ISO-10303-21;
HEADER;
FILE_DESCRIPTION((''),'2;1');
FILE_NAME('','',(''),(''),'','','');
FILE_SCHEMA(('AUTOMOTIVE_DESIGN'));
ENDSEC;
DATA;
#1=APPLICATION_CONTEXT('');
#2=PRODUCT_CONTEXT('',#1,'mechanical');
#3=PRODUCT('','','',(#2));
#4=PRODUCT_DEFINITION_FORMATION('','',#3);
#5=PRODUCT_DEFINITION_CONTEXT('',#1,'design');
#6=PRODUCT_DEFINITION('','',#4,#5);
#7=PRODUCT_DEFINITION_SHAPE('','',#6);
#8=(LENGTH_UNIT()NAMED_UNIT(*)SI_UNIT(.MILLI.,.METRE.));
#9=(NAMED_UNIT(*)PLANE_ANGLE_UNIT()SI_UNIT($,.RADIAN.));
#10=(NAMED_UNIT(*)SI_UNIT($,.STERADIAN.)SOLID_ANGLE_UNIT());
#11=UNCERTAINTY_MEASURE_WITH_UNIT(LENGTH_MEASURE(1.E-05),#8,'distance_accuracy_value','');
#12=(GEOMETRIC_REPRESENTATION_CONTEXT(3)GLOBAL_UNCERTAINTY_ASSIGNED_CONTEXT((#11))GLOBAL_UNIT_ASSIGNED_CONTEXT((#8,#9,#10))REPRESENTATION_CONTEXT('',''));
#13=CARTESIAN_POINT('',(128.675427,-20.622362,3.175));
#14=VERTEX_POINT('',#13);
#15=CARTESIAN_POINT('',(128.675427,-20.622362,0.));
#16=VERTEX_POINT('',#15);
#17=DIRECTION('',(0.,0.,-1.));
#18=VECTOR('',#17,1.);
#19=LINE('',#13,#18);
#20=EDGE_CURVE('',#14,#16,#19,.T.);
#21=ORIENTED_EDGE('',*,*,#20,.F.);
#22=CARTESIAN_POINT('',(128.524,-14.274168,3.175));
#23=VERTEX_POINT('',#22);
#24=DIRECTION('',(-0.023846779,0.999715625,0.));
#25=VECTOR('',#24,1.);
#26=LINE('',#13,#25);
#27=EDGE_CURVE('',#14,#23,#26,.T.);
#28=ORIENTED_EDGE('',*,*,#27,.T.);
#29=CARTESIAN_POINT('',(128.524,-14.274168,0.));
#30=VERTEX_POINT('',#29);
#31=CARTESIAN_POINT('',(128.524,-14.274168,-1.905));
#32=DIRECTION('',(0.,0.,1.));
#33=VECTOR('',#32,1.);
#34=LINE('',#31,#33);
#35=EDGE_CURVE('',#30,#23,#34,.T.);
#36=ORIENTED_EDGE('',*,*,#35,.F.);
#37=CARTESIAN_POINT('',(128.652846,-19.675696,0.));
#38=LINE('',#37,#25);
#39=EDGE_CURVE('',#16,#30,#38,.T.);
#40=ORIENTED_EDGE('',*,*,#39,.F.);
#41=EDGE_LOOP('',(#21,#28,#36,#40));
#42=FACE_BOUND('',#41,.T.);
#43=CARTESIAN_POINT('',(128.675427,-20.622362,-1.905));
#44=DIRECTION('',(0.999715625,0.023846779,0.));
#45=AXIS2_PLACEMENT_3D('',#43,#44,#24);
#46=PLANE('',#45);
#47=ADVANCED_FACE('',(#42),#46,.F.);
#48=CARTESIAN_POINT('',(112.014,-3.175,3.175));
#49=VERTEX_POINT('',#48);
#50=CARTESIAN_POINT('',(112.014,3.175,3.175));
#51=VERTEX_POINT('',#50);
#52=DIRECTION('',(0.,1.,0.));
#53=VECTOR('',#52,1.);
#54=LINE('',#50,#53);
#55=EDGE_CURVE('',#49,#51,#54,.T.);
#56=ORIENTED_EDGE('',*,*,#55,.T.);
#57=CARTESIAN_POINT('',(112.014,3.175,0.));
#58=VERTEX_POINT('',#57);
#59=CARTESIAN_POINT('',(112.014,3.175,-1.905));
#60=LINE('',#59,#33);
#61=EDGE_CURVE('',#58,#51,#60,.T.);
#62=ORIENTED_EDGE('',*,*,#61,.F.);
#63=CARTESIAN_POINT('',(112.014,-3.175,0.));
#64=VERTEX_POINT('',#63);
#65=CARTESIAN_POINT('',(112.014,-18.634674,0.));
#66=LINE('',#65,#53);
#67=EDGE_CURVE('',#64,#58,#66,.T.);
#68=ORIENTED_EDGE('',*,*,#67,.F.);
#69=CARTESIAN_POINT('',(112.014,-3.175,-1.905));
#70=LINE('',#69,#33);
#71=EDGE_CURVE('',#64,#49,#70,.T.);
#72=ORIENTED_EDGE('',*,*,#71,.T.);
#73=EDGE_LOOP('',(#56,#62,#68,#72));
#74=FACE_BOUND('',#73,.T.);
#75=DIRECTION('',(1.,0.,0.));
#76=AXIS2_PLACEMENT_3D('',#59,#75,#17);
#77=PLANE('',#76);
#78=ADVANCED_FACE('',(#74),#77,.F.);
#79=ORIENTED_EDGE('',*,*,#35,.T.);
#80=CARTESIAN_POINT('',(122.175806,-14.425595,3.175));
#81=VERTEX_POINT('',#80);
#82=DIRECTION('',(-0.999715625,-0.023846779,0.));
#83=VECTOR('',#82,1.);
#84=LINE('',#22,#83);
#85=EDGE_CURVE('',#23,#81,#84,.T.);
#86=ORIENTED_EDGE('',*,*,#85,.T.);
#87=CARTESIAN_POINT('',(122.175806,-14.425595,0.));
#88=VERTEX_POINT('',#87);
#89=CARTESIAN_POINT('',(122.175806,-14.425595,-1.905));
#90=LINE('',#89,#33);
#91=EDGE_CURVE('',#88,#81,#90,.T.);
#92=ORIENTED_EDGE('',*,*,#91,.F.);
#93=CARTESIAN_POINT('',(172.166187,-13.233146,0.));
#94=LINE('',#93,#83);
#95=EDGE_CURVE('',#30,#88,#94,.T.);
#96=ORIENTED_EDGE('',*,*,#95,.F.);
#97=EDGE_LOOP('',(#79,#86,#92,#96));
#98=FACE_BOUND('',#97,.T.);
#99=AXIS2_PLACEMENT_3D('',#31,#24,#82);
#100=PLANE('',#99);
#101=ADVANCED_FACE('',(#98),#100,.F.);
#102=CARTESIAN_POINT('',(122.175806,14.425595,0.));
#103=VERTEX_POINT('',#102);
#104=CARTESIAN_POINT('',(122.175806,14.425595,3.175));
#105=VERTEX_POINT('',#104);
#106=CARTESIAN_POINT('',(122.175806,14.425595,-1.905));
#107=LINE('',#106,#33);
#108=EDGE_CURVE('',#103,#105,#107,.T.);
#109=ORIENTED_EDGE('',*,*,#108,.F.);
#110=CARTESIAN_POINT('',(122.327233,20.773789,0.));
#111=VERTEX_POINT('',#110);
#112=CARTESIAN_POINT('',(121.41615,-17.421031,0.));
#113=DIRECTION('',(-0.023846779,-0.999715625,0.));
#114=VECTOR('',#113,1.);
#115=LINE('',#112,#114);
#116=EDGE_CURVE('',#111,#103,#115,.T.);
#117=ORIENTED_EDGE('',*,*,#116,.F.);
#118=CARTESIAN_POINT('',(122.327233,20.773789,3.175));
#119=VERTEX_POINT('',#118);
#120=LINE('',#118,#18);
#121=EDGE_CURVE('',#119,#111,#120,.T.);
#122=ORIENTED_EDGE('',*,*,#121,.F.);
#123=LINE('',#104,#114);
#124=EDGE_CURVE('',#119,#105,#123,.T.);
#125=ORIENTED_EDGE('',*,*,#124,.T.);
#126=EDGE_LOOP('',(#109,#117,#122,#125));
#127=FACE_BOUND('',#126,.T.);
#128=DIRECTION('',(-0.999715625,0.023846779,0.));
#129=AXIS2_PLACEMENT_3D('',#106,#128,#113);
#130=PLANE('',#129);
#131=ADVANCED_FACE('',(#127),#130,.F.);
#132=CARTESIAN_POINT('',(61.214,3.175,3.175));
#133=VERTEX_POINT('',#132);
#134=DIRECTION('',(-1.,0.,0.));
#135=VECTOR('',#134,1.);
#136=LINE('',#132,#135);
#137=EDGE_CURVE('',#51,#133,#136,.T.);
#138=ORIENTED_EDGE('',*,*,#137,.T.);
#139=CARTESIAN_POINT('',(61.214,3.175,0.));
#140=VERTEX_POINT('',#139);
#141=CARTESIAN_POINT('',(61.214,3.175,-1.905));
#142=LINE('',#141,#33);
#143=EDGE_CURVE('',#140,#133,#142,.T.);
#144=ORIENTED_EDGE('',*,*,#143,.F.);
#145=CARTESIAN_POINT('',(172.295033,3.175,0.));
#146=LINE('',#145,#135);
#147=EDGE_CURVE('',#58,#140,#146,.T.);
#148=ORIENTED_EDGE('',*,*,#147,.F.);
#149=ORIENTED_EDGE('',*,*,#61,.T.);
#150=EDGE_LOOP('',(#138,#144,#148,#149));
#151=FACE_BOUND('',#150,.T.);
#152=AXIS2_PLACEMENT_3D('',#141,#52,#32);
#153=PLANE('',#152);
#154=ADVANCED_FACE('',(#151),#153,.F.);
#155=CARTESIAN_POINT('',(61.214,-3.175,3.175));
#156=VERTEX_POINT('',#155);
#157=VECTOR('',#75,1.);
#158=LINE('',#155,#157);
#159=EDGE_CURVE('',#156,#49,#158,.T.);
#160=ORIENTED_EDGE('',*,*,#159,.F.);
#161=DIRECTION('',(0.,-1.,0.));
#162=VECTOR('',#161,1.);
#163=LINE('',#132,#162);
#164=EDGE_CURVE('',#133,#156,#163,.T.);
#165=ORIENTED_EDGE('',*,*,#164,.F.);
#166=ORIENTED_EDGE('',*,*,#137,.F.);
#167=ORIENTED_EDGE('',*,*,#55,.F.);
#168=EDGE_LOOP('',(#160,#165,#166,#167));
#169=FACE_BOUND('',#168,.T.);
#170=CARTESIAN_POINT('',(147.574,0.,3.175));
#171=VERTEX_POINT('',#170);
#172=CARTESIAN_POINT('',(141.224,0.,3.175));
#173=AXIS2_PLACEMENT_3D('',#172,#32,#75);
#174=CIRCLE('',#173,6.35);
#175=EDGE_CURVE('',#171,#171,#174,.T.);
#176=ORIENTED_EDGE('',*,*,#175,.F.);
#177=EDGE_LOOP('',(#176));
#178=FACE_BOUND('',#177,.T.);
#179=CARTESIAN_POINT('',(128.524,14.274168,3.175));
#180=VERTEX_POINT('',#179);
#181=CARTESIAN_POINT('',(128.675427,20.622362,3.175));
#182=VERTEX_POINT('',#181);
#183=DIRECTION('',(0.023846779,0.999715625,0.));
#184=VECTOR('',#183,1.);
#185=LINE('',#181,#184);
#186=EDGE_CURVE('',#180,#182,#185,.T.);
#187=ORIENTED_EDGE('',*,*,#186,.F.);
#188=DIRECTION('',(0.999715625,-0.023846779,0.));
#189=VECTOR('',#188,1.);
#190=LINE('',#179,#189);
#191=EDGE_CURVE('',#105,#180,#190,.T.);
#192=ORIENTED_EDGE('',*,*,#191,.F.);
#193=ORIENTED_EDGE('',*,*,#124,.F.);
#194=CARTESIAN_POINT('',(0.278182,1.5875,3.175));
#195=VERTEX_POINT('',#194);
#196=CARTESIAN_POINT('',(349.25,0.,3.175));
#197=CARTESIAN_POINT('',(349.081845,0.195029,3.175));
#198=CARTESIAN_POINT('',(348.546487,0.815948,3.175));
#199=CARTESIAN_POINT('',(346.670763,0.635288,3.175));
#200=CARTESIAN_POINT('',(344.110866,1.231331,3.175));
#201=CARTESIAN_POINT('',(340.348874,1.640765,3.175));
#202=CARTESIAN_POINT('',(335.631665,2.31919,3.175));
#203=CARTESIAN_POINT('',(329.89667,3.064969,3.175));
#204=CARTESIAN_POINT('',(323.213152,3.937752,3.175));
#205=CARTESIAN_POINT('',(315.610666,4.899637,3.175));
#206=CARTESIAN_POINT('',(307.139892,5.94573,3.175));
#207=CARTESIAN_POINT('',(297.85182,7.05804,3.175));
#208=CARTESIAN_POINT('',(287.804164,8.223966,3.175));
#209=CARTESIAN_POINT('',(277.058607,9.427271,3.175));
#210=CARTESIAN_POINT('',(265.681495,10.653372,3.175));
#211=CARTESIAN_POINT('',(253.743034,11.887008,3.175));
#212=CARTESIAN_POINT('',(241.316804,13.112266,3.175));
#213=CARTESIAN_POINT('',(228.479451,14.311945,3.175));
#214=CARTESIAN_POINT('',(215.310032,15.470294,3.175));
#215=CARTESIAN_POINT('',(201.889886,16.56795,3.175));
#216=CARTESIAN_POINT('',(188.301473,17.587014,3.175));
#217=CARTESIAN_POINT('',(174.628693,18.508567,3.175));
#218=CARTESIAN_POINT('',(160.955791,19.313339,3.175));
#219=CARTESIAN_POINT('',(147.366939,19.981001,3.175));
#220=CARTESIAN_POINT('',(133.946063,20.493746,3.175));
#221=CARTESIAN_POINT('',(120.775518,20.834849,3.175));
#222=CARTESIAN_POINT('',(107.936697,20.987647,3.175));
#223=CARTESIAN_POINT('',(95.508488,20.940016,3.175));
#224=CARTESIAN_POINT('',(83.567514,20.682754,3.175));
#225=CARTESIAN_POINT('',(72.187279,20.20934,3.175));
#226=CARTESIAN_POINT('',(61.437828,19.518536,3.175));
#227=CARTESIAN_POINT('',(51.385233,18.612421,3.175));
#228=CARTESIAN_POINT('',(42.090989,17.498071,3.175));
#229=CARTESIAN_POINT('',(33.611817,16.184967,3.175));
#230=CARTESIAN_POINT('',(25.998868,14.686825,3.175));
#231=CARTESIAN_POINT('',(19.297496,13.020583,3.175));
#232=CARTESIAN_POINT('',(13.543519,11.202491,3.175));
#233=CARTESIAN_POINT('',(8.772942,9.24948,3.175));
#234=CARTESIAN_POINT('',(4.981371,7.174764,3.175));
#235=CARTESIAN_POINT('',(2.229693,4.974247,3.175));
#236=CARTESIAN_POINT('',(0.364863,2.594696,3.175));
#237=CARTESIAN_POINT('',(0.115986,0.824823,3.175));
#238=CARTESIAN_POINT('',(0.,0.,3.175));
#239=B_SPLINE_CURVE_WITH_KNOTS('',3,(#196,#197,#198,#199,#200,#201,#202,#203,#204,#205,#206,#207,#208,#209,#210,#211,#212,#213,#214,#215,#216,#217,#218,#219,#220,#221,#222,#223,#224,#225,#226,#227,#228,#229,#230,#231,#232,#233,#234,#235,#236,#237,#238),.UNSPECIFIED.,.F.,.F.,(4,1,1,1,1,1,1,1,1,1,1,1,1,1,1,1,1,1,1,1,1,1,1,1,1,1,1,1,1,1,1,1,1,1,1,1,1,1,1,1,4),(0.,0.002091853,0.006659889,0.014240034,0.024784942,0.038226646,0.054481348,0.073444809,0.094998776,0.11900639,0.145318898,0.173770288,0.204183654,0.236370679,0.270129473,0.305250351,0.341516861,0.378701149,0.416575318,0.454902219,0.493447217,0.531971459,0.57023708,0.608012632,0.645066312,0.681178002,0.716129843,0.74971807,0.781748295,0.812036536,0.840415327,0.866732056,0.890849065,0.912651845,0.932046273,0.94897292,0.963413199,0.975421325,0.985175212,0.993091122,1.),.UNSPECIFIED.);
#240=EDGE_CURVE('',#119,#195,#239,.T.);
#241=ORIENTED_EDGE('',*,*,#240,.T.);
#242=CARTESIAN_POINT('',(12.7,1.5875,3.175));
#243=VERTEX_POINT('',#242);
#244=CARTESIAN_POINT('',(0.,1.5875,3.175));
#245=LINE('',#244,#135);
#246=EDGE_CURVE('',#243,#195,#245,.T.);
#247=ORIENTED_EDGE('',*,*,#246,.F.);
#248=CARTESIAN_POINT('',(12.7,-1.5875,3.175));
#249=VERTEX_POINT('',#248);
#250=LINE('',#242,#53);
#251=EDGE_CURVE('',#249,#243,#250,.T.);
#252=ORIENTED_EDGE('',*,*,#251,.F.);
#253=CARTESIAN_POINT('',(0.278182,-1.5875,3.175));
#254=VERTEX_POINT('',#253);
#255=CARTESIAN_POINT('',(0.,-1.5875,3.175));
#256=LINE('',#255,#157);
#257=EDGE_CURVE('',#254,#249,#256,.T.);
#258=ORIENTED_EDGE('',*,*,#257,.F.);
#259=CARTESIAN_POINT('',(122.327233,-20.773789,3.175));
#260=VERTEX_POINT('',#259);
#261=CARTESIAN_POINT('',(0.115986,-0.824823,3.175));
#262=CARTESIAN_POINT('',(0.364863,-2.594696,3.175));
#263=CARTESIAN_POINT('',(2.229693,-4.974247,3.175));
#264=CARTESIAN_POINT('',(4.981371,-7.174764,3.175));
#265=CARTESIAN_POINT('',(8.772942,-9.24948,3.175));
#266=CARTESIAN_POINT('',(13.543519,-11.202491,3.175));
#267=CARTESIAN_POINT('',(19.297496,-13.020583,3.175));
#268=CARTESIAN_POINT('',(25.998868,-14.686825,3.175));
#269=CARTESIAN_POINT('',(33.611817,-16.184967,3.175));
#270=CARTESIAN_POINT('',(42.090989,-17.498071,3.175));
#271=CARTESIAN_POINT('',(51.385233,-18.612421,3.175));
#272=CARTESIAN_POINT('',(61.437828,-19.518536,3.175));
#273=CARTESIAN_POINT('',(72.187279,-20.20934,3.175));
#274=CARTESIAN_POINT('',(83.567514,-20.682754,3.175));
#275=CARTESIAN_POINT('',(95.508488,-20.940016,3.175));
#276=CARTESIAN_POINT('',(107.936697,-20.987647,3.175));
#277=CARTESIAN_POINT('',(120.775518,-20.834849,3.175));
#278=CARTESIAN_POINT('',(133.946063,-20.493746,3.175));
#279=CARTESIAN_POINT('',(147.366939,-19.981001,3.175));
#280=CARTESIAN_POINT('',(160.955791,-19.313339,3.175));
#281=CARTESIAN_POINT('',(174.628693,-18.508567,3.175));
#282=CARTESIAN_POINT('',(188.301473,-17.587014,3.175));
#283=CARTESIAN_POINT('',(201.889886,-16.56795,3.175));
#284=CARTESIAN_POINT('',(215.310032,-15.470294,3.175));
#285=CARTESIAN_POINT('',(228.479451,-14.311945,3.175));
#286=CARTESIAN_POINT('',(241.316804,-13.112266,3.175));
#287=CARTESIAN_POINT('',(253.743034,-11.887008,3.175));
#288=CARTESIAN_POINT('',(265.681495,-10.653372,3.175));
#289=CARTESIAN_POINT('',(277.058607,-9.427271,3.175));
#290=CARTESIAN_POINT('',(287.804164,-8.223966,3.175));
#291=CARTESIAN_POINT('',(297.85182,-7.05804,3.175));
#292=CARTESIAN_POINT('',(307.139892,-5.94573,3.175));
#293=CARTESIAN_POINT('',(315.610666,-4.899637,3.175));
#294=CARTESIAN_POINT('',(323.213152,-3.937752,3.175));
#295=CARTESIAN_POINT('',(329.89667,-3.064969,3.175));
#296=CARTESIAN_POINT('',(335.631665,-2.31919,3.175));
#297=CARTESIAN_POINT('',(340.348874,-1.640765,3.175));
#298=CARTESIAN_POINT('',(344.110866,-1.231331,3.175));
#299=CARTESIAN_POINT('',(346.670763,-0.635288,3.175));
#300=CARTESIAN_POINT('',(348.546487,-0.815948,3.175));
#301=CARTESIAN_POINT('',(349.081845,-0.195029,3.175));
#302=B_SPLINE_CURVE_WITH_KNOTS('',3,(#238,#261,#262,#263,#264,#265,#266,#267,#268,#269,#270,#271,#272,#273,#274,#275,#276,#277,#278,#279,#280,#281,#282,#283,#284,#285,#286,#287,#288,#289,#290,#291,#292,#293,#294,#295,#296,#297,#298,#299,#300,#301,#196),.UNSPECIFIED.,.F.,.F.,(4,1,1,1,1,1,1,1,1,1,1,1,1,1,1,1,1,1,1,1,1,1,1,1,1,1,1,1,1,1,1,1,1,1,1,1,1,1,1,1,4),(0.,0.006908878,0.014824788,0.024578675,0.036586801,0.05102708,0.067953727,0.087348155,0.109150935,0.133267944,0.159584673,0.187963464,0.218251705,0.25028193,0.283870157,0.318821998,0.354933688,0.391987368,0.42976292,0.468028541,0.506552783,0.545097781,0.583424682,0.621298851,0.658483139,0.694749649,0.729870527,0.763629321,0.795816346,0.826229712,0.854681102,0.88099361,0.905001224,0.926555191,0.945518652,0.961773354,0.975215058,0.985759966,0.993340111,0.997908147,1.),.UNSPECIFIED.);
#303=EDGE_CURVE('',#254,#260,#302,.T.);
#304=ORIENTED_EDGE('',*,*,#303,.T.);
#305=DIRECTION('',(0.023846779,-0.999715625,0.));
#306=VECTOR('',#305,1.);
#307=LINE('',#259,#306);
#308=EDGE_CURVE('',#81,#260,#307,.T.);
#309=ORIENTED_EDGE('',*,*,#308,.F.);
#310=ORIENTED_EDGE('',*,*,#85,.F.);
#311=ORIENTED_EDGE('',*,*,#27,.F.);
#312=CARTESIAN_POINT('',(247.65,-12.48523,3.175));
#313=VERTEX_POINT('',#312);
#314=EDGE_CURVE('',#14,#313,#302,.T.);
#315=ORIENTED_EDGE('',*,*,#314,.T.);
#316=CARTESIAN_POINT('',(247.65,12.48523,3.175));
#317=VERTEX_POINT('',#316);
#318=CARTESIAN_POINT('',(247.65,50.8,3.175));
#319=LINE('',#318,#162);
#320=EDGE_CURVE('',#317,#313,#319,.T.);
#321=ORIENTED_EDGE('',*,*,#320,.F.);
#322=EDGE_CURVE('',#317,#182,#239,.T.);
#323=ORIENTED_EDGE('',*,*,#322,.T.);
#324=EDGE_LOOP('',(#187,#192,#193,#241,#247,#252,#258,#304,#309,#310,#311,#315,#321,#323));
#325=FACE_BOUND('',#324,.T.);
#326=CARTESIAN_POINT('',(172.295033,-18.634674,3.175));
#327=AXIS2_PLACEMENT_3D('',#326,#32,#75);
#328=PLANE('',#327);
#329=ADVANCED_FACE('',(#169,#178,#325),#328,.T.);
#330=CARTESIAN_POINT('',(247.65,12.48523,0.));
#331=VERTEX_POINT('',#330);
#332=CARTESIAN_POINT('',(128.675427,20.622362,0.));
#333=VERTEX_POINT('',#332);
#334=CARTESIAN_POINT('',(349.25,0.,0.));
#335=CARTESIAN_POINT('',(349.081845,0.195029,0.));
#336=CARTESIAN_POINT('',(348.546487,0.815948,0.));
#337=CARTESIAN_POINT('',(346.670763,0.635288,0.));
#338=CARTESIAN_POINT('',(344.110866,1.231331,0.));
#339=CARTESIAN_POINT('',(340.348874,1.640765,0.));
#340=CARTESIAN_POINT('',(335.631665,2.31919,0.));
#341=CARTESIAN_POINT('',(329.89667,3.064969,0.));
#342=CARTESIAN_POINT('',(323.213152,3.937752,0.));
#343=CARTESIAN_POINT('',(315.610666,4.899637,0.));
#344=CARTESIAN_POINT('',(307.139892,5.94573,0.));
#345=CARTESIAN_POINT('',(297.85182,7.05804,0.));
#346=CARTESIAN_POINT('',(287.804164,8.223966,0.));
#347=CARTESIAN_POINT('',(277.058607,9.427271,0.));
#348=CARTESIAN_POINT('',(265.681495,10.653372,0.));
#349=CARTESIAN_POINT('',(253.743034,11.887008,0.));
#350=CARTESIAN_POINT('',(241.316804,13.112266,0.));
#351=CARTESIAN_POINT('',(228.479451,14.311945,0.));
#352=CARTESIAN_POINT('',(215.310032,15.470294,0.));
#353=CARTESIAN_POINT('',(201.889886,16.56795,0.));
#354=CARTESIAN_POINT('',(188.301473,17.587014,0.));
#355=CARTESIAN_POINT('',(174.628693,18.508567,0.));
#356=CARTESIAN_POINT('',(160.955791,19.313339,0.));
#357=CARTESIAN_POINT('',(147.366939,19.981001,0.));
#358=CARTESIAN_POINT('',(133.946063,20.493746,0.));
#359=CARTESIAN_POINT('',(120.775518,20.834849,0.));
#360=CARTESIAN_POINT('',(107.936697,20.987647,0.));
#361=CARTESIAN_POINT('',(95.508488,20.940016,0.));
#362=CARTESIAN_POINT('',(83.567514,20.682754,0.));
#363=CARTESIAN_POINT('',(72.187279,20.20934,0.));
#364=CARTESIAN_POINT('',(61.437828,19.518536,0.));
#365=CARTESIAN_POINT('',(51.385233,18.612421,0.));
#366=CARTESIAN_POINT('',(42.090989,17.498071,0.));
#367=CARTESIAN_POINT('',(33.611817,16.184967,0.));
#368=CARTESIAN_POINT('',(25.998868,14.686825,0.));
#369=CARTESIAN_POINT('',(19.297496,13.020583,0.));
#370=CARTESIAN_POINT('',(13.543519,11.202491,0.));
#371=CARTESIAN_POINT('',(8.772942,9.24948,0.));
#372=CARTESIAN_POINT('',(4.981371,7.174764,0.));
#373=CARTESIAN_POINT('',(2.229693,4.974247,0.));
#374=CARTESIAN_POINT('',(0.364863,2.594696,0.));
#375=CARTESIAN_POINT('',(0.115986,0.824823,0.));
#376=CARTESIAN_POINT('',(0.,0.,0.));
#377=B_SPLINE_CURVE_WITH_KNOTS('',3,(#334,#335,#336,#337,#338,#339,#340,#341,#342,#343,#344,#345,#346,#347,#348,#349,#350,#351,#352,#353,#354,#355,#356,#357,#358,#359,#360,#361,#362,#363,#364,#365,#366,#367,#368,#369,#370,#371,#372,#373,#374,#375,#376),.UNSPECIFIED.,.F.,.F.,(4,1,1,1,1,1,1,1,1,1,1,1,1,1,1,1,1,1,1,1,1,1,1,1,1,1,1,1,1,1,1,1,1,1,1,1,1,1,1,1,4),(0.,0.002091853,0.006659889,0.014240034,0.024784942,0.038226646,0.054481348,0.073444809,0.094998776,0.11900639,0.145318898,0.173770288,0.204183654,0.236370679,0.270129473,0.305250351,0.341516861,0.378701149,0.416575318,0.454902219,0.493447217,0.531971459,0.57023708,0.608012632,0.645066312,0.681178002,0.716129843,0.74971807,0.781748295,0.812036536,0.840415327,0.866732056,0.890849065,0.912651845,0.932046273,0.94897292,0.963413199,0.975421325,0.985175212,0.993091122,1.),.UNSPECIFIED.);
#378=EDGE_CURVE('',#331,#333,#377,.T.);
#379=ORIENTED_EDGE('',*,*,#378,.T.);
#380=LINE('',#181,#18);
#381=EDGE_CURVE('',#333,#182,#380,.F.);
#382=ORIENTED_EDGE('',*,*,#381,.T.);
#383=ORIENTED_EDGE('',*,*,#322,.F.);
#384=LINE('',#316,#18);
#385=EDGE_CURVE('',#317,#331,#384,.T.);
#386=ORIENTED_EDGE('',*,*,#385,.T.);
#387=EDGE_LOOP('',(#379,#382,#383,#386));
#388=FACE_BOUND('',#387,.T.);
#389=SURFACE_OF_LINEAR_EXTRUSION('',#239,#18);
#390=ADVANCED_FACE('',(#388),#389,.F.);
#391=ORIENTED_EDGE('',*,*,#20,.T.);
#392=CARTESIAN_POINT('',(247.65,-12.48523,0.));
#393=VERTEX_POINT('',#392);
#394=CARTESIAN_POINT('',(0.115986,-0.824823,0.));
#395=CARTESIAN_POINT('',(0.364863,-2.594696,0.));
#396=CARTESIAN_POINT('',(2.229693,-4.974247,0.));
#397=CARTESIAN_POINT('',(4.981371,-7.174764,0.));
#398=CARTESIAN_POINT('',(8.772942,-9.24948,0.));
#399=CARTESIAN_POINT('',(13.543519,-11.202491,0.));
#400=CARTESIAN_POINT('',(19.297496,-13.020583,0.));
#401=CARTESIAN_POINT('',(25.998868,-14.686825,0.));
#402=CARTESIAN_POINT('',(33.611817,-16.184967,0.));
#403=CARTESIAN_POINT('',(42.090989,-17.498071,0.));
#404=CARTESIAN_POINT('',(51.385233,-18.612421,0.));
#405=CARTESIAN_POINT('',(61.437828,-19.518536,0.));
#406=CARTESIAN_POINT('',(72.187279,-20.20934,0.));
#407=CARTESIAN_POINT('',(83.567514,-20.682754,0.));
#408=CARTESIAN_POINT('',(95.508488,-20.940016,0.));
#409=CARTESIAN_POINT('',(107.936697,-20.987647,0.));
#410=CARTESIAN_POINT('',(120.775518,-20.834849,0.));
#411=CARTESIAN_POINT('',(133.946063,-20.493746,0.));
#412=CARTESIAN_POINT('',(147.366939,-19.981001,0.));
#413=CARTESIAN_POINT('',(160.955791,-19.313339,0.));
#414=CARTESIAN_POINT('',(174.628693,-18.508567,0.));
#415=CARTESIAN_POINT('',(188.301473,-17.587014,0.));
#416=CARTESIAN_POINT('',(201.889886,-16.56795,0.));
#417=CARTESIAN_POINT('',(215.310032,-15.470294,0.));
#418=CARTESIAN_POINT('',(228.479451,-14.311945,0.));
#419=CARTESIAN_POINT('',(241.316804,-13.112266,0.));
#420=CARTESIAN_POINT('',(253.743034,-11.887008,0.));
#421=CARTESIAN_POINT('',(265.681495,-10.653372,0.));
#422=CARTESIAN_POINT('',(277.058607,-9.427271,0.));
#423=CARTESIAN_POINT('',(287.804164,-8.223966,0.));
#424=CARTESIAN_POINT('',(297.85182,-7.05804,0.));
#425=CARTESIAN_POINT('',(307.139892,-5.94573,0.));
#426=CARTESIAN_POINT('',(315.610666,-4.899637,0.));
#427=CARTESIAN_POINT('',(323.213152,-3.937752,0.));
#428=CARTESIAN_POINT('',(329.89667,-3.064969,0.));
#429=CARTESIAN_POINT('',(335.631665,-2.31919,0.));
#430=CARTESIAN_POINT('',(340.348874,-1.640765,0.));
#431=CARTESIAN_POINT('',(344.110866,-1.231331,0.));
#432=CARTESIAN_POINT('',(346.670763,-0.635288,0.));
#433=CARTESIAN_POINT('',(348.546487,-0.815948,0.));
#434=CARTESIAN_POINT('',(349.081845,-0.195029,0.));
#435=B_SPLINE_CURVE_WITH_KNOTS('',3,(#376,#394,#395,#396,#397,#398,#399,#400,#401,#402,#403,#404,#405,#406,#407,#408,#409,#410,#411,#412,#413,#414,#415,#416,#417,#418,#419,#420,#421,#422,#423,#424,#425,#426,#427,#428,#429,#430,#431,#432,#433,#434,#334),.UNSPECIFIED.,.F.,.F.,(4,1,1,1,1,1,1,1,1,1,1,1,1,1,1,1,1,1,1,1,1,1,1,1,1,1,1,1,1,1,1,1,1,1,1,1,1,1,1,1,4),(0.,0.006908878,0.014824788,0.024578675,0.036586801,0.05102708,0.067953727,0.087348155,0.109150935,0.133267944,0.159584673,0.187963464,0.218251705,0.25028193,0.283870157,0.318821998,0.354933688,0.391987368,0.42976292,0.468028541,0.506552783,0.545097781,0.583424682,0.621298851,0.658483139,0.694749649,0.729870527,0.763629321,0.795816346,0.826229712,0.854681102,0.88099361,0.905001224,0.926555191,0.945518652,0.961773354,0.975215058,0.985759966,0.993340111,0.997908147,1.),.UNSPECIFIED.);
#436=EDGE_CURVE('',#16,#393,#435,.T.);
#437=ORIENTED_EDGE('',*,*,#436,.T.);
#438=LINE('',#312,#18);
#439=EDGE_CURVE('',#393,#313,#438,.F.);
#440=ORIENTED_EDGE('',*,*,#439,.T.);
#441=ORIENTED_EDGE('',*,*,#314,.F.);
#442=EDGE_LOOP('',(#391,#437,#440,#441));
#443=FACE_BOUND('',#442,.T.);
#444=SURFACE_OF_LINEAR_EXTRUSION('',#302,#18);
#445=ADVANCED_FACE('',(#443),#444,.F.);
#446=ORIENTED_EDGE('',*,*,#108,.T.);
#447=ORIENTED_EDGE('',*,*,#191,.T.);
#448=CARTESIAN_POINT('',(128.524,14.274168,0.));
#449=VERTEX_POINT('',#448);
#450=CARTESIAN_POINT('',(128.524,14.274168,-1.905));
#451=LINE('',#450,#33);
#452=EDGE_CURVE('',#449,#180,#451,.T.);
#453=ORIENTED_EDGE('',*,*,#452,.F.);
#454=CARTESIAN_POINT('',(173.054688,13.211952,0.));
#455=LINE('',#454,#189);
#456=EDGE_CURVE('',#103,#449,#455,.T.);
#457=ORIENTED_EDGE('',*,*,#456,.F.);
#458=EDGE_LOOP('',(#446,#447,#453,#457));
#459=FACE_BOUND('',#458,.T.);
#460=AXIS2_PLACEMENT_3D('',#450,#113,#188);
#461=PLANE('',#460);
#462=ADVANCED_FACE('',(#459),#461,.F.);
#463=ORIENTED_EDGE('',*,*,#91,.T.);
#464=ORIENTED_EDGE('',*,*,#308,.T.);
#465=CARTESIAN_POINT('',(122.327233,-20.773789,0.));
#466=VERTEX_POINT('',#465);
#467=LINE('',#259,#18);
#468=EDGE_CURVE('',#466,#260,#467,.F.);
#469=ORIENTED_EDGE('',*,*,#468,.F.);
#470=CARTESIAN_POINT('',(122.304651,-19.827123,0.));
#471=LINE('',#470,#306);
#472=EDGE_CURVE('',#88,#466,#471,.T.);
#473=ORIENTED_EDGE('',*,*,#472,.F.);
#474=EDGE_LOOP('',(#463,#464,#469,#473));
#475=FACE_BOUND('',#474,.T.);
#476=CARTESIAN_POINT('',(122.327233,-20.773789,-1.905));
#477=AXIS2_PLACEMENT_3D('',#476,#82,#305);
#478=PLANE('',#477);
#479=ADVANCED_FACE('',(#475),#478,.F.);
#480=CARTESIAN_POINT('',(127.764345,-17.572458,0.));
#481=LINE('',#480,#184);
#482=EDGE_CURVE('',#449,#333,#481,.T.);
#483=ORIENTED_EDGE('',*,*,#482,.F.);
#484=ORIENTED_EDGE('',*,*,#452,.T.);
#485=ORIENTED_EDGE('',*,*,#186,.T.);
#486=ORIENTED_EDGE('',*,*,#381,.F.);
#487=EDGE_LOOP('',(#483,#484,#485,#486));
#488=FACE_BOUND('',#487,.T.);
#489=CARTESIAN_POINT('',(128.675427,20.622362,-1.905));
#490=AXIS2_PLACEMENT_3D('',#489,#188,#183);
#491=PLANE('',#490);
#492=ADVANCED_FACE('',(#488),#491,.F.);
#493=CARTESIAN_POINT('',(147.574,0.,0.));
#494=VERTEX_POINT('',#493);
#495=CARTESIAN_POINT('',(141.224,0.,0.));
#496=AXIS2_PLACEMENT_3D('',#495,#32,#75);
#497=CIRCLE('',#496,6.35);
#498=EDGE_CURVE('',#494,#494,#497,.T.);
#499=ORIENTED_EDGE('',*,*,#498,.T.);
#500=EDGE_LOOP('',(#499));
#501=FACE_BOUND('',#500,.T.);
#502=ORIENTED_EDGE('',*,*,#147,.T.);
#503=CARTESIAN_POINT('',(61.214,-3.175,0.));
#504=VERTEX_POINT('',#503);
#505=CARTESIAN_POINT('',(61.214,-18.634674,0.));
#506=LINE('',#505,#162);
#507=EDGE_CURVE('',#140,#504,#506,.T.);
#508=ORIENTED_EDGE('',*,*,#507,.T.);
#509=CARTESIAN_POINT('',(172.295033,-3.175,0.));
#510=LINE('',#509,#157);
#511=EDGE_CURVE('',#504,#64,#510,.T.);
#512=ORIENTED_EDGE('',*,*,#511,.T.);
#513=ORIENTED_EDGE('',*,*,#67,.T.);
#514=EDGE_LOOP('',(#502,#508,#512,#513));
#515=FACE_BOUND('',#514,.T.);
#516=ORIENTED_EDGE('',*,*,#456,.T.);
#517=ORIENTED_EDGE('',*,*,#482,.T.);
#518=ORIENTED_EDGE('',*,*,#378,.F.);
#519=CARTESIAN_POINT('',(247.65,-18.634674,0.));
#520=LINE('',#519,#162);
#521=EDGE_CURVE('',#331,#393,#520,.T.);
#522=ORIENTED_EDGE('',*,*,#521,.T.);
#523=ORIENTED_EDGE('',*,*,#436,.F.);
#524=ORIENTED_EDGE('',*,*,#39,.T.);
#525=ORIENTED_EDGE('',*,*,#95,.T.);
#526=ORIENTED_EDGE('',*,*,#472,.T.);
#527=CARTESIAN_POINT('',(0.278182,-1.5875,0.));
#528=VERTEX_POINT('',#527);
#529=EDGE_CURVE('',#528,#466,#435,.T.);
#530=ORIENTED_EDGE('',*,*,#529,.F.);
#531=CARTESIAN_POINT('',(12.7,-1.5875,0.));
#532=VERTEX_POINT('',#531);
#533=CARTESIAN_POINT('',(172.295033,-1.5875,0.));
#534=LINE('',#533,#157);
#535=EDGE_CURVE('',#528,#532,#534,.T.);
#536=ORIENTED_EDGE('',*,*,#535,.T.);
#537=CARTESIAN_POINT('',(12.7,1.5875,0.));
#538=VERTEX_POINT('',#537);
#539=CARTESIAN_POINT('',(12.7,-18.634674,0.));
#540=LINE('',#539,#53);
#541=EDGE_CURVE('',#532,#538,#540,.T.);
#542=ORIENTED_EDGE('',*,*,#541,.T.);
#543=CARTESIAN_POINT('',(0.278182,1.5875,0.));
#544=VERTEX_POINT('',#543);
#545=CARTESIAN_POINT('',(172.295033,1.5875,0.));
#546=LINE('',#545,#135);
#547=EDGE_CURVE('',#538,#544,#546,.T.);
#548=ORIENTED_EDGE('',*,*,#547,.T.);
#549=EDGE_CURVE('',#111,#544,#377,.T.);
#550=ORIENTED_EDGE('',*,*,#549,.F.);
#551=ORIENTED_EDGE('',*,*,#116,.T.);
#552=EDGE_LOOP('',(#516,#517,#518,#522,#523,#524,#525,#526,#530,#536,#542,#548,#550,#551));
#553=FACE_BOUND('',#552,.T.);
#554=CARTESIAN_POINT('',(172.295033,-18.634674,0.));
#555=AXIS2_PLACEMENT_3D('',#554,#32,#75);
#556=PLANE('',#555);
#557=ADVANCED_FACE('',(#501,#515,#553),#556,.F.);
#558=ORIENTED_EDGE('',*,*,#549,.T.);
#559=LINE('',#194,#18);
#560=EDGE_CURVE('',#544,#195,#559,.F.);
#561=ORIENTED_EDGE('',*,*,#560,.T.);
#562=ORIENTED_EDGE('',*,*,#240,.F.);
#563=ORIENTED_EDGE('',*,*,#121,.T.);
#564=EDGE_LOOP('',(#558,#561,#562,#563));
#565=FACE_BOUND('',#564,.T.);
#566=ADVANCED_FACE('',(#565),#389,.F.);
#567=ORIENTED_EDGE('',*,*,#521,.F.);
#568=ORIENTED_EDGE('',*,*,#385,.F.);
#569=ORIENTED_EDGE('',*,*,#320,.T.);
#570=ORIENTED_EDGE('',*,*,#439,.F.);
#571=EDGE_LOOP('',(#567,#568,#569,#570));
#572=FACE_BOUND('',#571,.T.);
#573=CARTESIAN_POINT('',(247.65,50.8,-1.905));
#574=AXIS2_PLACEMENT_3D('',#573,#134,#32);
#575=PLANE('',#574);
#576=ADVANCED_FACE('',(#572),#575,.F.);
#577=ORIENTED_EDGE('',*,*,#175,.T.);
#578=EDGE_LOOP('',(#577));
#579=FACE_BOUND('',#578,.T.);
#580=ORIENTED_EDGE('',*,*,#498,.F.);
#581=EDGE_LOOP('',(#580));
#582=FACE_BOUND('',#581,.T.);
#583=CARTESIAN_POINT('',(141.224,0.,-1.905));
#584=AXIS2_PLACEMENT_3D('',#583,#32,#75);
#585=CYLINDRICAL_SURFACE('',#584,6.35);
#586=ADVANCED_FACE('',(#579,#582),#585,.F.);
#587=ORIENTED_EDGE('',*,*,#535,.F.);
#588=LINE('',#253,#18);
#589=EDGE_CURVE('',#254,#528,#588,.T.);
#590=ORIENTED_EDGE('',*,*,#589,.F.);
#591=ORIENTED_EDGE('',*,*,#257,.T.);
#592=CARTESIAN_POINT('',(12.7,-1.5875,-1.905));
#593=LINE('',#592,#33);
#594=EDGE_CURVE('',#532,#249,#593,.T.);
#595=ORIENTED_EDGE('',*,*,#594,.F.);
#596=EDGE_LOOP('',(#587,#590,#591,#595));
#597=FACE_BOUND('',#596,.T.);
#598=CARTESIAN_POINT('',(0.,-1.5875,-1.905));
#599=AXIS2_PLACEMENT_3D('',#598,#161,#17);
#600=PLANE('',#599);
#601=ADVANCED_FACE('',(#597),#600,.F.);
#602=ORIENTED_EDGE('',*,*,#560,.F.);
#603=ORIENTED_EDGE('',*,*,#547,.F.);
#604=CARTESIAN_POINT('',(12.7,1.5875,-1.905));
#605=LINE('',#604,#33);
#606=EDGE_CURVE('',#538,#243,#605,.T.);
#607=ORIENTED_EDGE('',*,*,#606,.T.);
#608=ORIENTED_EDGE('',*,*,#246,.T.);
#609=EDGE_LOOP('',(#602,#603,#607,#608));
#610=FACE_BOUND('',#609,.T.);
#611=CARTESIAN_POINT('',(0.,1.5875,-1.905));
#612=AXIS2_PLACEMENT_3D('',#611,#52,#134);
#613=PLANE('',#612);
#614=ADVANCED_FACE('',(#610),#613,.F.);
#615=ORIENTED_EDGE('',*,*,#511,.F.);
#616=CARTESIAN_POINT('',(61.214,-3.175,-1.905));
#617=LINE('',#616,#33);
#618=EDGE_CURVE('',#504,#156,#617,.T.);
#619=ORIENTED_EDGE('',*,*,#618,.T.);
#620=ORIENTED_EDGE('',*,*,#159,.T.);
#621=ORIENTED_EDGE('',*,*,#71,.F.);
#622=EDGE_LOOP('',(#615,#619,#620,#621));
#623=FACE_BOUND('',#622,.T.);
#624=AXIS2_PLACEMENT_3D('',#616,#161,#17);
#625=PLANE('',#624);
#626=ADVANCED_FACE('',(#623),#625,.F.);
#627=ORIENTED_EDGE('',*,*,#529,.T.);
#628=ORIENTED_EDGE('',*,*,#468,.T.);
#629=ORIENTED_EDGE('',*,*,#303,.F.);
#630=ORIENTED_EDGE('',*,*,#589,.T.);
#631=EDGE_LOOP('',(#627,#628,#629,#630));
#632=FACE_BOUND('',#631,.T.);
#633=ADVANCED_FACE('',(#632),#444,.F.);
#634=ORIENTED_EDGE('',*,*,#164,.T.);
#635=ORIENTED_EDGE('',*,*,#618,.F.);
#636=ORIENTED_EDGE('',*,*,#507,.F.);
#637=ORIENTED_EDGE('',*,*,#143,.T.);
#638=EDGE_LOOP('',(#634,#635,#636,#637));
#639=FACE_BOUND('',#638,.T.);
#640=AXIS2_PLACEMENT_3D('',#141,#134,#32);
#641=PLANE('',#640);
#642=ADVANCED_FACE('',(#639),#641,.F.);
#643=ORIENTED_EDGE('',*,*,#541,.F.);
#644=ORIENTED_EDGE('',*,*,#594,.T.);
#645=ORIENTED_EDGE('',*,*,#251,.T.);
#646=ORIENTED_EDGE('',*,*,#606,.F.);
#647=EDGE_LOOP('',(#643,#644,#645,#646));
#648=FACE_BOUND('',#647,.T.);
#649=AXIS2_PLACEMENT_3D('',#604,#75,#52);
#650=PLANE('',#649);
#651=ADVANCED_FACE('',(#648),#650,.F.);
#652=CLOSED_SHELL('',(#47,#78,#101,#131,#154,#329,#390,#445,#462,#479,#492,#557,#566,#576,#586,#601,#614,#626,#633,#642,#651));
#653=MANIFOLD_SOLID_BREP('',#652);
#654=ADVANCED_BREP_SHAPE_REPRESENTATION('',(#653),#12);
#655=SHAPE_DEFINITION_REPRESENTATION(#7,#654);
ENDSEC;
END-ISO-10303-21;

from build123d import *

# Parameters (mm, degrees)
BOSS_EXTRUDE1_DEPTH = 3.175
SKETCH3_R           = 6.35
SKETCH3_W           = 101.6
SKETCH3_H           = 101.6
SKETCH3_W_2         = 12.7
SKETCH3_H_2         = 3.175
CUT_EXTRUDE1_DEPTH  = 5.08
SKETCH4_W           = 50.8
SKETCH4_H           = 6.35
CUT_EXTRUDE2_DEPTH  = 5.08


with BuildPart() as part:
    # Sketch2 → Boss-Extrude1 (new body)
    with BuildSketch(Plane.XY):
        with BuildLine():
            add(Edge.make_bspline(
                [(349.25, 0), (349.081845346, 0.195028946), (348.546486748, 0.815947966), (346.670763268, 0.635287815), (344.11086643, 1.231330826), (340.348873806, 1.640765335), (335.631665172, 2.319189902), (329.896669995, 3.064968776), (323.213152208, 3.937751592), (315.610665982, 4.899637326), (307.139892382, 5.94572983), (297.851820227, 7.058039906), (287.804163994, 8.223966301), (277.05860736, 9.42727111), (265.681494766, 10.653371923), (253.743033604, 11.887008331), (241.316804275, 13.11226643), (228.479451099, 14.31194461), (215.310032455, 15.470294327), (201.889886046, 16.567949836), (188.301472832, 17.587013879), (174.628693344, 18.508566703), (160.95579103, 19.313339436), (147.366939387, 19.981000511), (133.946062727, 20.493746123), (120.775518049, 20.834848585), (107.936696619, 20.987647162), (95.508487727, 20.940015693), (83.567514363, 20.682753776), (72.187279219, 20.209340103), (61.437827927, 19.518536296), (51.385233466, 18.612420938), (42.090988888, 17.498070831), (33.611817078, 16.184967443), (25.998868366, 14.686825017), (19.297496021, 13.02058345), (13.543519177, 11.202490675), (8.772941595, 9.249479701), (4.98137124, 7.174763565), (2.229693173, 4.974247418), (0.364862544, 2.594695774), (0.115985535, 0.824823436), (0, 0)],
                knots=[0, 0, 0, 0, 0.002091853, 0.006659889, 0.014240034, 0.024784942, 0.038226646, 0.054481348, 0.073444809, 0.094998776, 0.11900639, 0.145318898, 0.173770288, 0.204183654, 0.236370679, 0.270129473, 0.305250351, 0.341516861, 0.378701149, 0.416575318, 0.454902219, 0.493447217, 0.531971459, 0.57023708, 0.608012632, 0.645066312, 0.681178002, 0.716129843, 0.74971807, 0.781748295, 0.812036536, 0.840415327, 0.866732056, 0.890849065, 0.912651845, 0.932046273, 0.94897292, 0.963413199, 0.975421325, 0.985175212, 0.993091122, 1, 1, 1, 1], degree=3))
            add(Edge.make_bspline(
                [(349.25, 0), (349.081845346, -0.195028946), (348.546486748, -0.815947966), (346.670763268, -0.635287815), (344.11086643, -1.231330826), (340.348873806, -1.640765335), (335.631665172, -2.319189902), (329.896669995, -3.064968776), (323.213152208, -3.937751592), (315.610665982, -4.899637326), (307.139892382, -5.94572983), (297.851820227, -7.058039906), (287.804163994, -8.223966301), (277.05860736, -9.42727111), (265.681494766, -10.653371923), (253.743033604, -11.887008331), (241.316804275, -13.11226643), (228.479451099, -14.31194461), (215.310032455, -15.470294327), (201.889886046, -16.567949836), (188.301472832, -17.587013879), (174.628693344, -18.508566703), (160.95579103, -19.313339436), (147.366939387, -19.981000511), (133.946062727, -20.493746123), (120.775518049, -20.834848585), (107.936696619, -20.987647162), (95.508487727, -20.940015693), (83.567514363, -20.682753776), (72.187279219, -20.209340103), (61.437827927, -19.518536296), (51.385233466, -18.612420938), (42.090988888, -17.498070831), (33.611817078, -16.184967443), (25.998868366, -14.686825017), (19.297496021, -13.02058345), (13.543519177, -11.202490675), (8.772941595, -9.249479701), (4.98137124, -7.174763565), (2.229693173, -4.974247418), (0.364862544, -2.594695774), (0.115985535, -0.824823436), (0, 0)],
                knots=[0, 0, 0, 0, 0.002091853, 0.006659889, 0.014240034, 0.024784942, 0.038226646, 0.054481348, 0.073444809, 0.094998776, 0.11900639, 0.145318898, 0.173770288, 0.204183654, 0.236370679, 0.270129473, 0.305250351, 0.341516861, 0.378701149, 0.416575318, 0.454902219, 0.493447217, 0.531971459, 0.57023708, 0.608012632, 0.645066312, 0.681178002, 0.716129843, 0.74971807, 0.781748295, 0.812036536, 0.840415327, 0.866732056, 0.890849065, 0.912651845, 0.932046273, 0.94897292, 0.963413199, 0.975421325, 0.985175212, 0.993091122, 1, 1, 1, 1], degree=3))
        make_face()
    extrude(amount=BOSS_EXTRUDE1_DEPTH)

    # Sketch3 → Cut-Extrude1 (cut)
    with BuildSketch(Plane.XY.offset(3.175)):
        with Locations((141.224, 0)):
            Circle(SKETCH3_R)
        with Locations((298.45, 0)):
            Rectangle(SKETCH3_W, SKETCH3_H)
        with Locations((6.35, 0)):
            Rectangle(SKETCH3_W_2, SKETCH3_H_2)
        Polygon((128.675427045, -20.622361952), (128.524, -14.274167732), (122.17580578, -14.425594777), (122.327232825, -20.773788997), (122.630086914, -33.470177436), (128.978281134, -33.318750391), align=None)
        Polygon((128.524, 14.274167732), (122.17580578, 14.425594777), (122.327232825, 20.773788997), (122.552222293, 30.205900992), (128.900416513, 30.054473947), (128.675427045, 20.622361952), align=None)
    extrude(amount=-CUT_EXTRUDE1_DEPTH, mode=Mode.SUBTRACT)

    # Sketch4 → Cut-Extrude2 (cut)
    with BuildSketch(Plane.XY.offset(3.175)):
        with Locations((86.614, 0)):
            Rectangle(SKETCH4_W, SKETCH4_H)
    extrude(amount=-CUT_EXTRUDE2_DEPTH, mode=Mode.SUBTRACT)


solid = part.part
